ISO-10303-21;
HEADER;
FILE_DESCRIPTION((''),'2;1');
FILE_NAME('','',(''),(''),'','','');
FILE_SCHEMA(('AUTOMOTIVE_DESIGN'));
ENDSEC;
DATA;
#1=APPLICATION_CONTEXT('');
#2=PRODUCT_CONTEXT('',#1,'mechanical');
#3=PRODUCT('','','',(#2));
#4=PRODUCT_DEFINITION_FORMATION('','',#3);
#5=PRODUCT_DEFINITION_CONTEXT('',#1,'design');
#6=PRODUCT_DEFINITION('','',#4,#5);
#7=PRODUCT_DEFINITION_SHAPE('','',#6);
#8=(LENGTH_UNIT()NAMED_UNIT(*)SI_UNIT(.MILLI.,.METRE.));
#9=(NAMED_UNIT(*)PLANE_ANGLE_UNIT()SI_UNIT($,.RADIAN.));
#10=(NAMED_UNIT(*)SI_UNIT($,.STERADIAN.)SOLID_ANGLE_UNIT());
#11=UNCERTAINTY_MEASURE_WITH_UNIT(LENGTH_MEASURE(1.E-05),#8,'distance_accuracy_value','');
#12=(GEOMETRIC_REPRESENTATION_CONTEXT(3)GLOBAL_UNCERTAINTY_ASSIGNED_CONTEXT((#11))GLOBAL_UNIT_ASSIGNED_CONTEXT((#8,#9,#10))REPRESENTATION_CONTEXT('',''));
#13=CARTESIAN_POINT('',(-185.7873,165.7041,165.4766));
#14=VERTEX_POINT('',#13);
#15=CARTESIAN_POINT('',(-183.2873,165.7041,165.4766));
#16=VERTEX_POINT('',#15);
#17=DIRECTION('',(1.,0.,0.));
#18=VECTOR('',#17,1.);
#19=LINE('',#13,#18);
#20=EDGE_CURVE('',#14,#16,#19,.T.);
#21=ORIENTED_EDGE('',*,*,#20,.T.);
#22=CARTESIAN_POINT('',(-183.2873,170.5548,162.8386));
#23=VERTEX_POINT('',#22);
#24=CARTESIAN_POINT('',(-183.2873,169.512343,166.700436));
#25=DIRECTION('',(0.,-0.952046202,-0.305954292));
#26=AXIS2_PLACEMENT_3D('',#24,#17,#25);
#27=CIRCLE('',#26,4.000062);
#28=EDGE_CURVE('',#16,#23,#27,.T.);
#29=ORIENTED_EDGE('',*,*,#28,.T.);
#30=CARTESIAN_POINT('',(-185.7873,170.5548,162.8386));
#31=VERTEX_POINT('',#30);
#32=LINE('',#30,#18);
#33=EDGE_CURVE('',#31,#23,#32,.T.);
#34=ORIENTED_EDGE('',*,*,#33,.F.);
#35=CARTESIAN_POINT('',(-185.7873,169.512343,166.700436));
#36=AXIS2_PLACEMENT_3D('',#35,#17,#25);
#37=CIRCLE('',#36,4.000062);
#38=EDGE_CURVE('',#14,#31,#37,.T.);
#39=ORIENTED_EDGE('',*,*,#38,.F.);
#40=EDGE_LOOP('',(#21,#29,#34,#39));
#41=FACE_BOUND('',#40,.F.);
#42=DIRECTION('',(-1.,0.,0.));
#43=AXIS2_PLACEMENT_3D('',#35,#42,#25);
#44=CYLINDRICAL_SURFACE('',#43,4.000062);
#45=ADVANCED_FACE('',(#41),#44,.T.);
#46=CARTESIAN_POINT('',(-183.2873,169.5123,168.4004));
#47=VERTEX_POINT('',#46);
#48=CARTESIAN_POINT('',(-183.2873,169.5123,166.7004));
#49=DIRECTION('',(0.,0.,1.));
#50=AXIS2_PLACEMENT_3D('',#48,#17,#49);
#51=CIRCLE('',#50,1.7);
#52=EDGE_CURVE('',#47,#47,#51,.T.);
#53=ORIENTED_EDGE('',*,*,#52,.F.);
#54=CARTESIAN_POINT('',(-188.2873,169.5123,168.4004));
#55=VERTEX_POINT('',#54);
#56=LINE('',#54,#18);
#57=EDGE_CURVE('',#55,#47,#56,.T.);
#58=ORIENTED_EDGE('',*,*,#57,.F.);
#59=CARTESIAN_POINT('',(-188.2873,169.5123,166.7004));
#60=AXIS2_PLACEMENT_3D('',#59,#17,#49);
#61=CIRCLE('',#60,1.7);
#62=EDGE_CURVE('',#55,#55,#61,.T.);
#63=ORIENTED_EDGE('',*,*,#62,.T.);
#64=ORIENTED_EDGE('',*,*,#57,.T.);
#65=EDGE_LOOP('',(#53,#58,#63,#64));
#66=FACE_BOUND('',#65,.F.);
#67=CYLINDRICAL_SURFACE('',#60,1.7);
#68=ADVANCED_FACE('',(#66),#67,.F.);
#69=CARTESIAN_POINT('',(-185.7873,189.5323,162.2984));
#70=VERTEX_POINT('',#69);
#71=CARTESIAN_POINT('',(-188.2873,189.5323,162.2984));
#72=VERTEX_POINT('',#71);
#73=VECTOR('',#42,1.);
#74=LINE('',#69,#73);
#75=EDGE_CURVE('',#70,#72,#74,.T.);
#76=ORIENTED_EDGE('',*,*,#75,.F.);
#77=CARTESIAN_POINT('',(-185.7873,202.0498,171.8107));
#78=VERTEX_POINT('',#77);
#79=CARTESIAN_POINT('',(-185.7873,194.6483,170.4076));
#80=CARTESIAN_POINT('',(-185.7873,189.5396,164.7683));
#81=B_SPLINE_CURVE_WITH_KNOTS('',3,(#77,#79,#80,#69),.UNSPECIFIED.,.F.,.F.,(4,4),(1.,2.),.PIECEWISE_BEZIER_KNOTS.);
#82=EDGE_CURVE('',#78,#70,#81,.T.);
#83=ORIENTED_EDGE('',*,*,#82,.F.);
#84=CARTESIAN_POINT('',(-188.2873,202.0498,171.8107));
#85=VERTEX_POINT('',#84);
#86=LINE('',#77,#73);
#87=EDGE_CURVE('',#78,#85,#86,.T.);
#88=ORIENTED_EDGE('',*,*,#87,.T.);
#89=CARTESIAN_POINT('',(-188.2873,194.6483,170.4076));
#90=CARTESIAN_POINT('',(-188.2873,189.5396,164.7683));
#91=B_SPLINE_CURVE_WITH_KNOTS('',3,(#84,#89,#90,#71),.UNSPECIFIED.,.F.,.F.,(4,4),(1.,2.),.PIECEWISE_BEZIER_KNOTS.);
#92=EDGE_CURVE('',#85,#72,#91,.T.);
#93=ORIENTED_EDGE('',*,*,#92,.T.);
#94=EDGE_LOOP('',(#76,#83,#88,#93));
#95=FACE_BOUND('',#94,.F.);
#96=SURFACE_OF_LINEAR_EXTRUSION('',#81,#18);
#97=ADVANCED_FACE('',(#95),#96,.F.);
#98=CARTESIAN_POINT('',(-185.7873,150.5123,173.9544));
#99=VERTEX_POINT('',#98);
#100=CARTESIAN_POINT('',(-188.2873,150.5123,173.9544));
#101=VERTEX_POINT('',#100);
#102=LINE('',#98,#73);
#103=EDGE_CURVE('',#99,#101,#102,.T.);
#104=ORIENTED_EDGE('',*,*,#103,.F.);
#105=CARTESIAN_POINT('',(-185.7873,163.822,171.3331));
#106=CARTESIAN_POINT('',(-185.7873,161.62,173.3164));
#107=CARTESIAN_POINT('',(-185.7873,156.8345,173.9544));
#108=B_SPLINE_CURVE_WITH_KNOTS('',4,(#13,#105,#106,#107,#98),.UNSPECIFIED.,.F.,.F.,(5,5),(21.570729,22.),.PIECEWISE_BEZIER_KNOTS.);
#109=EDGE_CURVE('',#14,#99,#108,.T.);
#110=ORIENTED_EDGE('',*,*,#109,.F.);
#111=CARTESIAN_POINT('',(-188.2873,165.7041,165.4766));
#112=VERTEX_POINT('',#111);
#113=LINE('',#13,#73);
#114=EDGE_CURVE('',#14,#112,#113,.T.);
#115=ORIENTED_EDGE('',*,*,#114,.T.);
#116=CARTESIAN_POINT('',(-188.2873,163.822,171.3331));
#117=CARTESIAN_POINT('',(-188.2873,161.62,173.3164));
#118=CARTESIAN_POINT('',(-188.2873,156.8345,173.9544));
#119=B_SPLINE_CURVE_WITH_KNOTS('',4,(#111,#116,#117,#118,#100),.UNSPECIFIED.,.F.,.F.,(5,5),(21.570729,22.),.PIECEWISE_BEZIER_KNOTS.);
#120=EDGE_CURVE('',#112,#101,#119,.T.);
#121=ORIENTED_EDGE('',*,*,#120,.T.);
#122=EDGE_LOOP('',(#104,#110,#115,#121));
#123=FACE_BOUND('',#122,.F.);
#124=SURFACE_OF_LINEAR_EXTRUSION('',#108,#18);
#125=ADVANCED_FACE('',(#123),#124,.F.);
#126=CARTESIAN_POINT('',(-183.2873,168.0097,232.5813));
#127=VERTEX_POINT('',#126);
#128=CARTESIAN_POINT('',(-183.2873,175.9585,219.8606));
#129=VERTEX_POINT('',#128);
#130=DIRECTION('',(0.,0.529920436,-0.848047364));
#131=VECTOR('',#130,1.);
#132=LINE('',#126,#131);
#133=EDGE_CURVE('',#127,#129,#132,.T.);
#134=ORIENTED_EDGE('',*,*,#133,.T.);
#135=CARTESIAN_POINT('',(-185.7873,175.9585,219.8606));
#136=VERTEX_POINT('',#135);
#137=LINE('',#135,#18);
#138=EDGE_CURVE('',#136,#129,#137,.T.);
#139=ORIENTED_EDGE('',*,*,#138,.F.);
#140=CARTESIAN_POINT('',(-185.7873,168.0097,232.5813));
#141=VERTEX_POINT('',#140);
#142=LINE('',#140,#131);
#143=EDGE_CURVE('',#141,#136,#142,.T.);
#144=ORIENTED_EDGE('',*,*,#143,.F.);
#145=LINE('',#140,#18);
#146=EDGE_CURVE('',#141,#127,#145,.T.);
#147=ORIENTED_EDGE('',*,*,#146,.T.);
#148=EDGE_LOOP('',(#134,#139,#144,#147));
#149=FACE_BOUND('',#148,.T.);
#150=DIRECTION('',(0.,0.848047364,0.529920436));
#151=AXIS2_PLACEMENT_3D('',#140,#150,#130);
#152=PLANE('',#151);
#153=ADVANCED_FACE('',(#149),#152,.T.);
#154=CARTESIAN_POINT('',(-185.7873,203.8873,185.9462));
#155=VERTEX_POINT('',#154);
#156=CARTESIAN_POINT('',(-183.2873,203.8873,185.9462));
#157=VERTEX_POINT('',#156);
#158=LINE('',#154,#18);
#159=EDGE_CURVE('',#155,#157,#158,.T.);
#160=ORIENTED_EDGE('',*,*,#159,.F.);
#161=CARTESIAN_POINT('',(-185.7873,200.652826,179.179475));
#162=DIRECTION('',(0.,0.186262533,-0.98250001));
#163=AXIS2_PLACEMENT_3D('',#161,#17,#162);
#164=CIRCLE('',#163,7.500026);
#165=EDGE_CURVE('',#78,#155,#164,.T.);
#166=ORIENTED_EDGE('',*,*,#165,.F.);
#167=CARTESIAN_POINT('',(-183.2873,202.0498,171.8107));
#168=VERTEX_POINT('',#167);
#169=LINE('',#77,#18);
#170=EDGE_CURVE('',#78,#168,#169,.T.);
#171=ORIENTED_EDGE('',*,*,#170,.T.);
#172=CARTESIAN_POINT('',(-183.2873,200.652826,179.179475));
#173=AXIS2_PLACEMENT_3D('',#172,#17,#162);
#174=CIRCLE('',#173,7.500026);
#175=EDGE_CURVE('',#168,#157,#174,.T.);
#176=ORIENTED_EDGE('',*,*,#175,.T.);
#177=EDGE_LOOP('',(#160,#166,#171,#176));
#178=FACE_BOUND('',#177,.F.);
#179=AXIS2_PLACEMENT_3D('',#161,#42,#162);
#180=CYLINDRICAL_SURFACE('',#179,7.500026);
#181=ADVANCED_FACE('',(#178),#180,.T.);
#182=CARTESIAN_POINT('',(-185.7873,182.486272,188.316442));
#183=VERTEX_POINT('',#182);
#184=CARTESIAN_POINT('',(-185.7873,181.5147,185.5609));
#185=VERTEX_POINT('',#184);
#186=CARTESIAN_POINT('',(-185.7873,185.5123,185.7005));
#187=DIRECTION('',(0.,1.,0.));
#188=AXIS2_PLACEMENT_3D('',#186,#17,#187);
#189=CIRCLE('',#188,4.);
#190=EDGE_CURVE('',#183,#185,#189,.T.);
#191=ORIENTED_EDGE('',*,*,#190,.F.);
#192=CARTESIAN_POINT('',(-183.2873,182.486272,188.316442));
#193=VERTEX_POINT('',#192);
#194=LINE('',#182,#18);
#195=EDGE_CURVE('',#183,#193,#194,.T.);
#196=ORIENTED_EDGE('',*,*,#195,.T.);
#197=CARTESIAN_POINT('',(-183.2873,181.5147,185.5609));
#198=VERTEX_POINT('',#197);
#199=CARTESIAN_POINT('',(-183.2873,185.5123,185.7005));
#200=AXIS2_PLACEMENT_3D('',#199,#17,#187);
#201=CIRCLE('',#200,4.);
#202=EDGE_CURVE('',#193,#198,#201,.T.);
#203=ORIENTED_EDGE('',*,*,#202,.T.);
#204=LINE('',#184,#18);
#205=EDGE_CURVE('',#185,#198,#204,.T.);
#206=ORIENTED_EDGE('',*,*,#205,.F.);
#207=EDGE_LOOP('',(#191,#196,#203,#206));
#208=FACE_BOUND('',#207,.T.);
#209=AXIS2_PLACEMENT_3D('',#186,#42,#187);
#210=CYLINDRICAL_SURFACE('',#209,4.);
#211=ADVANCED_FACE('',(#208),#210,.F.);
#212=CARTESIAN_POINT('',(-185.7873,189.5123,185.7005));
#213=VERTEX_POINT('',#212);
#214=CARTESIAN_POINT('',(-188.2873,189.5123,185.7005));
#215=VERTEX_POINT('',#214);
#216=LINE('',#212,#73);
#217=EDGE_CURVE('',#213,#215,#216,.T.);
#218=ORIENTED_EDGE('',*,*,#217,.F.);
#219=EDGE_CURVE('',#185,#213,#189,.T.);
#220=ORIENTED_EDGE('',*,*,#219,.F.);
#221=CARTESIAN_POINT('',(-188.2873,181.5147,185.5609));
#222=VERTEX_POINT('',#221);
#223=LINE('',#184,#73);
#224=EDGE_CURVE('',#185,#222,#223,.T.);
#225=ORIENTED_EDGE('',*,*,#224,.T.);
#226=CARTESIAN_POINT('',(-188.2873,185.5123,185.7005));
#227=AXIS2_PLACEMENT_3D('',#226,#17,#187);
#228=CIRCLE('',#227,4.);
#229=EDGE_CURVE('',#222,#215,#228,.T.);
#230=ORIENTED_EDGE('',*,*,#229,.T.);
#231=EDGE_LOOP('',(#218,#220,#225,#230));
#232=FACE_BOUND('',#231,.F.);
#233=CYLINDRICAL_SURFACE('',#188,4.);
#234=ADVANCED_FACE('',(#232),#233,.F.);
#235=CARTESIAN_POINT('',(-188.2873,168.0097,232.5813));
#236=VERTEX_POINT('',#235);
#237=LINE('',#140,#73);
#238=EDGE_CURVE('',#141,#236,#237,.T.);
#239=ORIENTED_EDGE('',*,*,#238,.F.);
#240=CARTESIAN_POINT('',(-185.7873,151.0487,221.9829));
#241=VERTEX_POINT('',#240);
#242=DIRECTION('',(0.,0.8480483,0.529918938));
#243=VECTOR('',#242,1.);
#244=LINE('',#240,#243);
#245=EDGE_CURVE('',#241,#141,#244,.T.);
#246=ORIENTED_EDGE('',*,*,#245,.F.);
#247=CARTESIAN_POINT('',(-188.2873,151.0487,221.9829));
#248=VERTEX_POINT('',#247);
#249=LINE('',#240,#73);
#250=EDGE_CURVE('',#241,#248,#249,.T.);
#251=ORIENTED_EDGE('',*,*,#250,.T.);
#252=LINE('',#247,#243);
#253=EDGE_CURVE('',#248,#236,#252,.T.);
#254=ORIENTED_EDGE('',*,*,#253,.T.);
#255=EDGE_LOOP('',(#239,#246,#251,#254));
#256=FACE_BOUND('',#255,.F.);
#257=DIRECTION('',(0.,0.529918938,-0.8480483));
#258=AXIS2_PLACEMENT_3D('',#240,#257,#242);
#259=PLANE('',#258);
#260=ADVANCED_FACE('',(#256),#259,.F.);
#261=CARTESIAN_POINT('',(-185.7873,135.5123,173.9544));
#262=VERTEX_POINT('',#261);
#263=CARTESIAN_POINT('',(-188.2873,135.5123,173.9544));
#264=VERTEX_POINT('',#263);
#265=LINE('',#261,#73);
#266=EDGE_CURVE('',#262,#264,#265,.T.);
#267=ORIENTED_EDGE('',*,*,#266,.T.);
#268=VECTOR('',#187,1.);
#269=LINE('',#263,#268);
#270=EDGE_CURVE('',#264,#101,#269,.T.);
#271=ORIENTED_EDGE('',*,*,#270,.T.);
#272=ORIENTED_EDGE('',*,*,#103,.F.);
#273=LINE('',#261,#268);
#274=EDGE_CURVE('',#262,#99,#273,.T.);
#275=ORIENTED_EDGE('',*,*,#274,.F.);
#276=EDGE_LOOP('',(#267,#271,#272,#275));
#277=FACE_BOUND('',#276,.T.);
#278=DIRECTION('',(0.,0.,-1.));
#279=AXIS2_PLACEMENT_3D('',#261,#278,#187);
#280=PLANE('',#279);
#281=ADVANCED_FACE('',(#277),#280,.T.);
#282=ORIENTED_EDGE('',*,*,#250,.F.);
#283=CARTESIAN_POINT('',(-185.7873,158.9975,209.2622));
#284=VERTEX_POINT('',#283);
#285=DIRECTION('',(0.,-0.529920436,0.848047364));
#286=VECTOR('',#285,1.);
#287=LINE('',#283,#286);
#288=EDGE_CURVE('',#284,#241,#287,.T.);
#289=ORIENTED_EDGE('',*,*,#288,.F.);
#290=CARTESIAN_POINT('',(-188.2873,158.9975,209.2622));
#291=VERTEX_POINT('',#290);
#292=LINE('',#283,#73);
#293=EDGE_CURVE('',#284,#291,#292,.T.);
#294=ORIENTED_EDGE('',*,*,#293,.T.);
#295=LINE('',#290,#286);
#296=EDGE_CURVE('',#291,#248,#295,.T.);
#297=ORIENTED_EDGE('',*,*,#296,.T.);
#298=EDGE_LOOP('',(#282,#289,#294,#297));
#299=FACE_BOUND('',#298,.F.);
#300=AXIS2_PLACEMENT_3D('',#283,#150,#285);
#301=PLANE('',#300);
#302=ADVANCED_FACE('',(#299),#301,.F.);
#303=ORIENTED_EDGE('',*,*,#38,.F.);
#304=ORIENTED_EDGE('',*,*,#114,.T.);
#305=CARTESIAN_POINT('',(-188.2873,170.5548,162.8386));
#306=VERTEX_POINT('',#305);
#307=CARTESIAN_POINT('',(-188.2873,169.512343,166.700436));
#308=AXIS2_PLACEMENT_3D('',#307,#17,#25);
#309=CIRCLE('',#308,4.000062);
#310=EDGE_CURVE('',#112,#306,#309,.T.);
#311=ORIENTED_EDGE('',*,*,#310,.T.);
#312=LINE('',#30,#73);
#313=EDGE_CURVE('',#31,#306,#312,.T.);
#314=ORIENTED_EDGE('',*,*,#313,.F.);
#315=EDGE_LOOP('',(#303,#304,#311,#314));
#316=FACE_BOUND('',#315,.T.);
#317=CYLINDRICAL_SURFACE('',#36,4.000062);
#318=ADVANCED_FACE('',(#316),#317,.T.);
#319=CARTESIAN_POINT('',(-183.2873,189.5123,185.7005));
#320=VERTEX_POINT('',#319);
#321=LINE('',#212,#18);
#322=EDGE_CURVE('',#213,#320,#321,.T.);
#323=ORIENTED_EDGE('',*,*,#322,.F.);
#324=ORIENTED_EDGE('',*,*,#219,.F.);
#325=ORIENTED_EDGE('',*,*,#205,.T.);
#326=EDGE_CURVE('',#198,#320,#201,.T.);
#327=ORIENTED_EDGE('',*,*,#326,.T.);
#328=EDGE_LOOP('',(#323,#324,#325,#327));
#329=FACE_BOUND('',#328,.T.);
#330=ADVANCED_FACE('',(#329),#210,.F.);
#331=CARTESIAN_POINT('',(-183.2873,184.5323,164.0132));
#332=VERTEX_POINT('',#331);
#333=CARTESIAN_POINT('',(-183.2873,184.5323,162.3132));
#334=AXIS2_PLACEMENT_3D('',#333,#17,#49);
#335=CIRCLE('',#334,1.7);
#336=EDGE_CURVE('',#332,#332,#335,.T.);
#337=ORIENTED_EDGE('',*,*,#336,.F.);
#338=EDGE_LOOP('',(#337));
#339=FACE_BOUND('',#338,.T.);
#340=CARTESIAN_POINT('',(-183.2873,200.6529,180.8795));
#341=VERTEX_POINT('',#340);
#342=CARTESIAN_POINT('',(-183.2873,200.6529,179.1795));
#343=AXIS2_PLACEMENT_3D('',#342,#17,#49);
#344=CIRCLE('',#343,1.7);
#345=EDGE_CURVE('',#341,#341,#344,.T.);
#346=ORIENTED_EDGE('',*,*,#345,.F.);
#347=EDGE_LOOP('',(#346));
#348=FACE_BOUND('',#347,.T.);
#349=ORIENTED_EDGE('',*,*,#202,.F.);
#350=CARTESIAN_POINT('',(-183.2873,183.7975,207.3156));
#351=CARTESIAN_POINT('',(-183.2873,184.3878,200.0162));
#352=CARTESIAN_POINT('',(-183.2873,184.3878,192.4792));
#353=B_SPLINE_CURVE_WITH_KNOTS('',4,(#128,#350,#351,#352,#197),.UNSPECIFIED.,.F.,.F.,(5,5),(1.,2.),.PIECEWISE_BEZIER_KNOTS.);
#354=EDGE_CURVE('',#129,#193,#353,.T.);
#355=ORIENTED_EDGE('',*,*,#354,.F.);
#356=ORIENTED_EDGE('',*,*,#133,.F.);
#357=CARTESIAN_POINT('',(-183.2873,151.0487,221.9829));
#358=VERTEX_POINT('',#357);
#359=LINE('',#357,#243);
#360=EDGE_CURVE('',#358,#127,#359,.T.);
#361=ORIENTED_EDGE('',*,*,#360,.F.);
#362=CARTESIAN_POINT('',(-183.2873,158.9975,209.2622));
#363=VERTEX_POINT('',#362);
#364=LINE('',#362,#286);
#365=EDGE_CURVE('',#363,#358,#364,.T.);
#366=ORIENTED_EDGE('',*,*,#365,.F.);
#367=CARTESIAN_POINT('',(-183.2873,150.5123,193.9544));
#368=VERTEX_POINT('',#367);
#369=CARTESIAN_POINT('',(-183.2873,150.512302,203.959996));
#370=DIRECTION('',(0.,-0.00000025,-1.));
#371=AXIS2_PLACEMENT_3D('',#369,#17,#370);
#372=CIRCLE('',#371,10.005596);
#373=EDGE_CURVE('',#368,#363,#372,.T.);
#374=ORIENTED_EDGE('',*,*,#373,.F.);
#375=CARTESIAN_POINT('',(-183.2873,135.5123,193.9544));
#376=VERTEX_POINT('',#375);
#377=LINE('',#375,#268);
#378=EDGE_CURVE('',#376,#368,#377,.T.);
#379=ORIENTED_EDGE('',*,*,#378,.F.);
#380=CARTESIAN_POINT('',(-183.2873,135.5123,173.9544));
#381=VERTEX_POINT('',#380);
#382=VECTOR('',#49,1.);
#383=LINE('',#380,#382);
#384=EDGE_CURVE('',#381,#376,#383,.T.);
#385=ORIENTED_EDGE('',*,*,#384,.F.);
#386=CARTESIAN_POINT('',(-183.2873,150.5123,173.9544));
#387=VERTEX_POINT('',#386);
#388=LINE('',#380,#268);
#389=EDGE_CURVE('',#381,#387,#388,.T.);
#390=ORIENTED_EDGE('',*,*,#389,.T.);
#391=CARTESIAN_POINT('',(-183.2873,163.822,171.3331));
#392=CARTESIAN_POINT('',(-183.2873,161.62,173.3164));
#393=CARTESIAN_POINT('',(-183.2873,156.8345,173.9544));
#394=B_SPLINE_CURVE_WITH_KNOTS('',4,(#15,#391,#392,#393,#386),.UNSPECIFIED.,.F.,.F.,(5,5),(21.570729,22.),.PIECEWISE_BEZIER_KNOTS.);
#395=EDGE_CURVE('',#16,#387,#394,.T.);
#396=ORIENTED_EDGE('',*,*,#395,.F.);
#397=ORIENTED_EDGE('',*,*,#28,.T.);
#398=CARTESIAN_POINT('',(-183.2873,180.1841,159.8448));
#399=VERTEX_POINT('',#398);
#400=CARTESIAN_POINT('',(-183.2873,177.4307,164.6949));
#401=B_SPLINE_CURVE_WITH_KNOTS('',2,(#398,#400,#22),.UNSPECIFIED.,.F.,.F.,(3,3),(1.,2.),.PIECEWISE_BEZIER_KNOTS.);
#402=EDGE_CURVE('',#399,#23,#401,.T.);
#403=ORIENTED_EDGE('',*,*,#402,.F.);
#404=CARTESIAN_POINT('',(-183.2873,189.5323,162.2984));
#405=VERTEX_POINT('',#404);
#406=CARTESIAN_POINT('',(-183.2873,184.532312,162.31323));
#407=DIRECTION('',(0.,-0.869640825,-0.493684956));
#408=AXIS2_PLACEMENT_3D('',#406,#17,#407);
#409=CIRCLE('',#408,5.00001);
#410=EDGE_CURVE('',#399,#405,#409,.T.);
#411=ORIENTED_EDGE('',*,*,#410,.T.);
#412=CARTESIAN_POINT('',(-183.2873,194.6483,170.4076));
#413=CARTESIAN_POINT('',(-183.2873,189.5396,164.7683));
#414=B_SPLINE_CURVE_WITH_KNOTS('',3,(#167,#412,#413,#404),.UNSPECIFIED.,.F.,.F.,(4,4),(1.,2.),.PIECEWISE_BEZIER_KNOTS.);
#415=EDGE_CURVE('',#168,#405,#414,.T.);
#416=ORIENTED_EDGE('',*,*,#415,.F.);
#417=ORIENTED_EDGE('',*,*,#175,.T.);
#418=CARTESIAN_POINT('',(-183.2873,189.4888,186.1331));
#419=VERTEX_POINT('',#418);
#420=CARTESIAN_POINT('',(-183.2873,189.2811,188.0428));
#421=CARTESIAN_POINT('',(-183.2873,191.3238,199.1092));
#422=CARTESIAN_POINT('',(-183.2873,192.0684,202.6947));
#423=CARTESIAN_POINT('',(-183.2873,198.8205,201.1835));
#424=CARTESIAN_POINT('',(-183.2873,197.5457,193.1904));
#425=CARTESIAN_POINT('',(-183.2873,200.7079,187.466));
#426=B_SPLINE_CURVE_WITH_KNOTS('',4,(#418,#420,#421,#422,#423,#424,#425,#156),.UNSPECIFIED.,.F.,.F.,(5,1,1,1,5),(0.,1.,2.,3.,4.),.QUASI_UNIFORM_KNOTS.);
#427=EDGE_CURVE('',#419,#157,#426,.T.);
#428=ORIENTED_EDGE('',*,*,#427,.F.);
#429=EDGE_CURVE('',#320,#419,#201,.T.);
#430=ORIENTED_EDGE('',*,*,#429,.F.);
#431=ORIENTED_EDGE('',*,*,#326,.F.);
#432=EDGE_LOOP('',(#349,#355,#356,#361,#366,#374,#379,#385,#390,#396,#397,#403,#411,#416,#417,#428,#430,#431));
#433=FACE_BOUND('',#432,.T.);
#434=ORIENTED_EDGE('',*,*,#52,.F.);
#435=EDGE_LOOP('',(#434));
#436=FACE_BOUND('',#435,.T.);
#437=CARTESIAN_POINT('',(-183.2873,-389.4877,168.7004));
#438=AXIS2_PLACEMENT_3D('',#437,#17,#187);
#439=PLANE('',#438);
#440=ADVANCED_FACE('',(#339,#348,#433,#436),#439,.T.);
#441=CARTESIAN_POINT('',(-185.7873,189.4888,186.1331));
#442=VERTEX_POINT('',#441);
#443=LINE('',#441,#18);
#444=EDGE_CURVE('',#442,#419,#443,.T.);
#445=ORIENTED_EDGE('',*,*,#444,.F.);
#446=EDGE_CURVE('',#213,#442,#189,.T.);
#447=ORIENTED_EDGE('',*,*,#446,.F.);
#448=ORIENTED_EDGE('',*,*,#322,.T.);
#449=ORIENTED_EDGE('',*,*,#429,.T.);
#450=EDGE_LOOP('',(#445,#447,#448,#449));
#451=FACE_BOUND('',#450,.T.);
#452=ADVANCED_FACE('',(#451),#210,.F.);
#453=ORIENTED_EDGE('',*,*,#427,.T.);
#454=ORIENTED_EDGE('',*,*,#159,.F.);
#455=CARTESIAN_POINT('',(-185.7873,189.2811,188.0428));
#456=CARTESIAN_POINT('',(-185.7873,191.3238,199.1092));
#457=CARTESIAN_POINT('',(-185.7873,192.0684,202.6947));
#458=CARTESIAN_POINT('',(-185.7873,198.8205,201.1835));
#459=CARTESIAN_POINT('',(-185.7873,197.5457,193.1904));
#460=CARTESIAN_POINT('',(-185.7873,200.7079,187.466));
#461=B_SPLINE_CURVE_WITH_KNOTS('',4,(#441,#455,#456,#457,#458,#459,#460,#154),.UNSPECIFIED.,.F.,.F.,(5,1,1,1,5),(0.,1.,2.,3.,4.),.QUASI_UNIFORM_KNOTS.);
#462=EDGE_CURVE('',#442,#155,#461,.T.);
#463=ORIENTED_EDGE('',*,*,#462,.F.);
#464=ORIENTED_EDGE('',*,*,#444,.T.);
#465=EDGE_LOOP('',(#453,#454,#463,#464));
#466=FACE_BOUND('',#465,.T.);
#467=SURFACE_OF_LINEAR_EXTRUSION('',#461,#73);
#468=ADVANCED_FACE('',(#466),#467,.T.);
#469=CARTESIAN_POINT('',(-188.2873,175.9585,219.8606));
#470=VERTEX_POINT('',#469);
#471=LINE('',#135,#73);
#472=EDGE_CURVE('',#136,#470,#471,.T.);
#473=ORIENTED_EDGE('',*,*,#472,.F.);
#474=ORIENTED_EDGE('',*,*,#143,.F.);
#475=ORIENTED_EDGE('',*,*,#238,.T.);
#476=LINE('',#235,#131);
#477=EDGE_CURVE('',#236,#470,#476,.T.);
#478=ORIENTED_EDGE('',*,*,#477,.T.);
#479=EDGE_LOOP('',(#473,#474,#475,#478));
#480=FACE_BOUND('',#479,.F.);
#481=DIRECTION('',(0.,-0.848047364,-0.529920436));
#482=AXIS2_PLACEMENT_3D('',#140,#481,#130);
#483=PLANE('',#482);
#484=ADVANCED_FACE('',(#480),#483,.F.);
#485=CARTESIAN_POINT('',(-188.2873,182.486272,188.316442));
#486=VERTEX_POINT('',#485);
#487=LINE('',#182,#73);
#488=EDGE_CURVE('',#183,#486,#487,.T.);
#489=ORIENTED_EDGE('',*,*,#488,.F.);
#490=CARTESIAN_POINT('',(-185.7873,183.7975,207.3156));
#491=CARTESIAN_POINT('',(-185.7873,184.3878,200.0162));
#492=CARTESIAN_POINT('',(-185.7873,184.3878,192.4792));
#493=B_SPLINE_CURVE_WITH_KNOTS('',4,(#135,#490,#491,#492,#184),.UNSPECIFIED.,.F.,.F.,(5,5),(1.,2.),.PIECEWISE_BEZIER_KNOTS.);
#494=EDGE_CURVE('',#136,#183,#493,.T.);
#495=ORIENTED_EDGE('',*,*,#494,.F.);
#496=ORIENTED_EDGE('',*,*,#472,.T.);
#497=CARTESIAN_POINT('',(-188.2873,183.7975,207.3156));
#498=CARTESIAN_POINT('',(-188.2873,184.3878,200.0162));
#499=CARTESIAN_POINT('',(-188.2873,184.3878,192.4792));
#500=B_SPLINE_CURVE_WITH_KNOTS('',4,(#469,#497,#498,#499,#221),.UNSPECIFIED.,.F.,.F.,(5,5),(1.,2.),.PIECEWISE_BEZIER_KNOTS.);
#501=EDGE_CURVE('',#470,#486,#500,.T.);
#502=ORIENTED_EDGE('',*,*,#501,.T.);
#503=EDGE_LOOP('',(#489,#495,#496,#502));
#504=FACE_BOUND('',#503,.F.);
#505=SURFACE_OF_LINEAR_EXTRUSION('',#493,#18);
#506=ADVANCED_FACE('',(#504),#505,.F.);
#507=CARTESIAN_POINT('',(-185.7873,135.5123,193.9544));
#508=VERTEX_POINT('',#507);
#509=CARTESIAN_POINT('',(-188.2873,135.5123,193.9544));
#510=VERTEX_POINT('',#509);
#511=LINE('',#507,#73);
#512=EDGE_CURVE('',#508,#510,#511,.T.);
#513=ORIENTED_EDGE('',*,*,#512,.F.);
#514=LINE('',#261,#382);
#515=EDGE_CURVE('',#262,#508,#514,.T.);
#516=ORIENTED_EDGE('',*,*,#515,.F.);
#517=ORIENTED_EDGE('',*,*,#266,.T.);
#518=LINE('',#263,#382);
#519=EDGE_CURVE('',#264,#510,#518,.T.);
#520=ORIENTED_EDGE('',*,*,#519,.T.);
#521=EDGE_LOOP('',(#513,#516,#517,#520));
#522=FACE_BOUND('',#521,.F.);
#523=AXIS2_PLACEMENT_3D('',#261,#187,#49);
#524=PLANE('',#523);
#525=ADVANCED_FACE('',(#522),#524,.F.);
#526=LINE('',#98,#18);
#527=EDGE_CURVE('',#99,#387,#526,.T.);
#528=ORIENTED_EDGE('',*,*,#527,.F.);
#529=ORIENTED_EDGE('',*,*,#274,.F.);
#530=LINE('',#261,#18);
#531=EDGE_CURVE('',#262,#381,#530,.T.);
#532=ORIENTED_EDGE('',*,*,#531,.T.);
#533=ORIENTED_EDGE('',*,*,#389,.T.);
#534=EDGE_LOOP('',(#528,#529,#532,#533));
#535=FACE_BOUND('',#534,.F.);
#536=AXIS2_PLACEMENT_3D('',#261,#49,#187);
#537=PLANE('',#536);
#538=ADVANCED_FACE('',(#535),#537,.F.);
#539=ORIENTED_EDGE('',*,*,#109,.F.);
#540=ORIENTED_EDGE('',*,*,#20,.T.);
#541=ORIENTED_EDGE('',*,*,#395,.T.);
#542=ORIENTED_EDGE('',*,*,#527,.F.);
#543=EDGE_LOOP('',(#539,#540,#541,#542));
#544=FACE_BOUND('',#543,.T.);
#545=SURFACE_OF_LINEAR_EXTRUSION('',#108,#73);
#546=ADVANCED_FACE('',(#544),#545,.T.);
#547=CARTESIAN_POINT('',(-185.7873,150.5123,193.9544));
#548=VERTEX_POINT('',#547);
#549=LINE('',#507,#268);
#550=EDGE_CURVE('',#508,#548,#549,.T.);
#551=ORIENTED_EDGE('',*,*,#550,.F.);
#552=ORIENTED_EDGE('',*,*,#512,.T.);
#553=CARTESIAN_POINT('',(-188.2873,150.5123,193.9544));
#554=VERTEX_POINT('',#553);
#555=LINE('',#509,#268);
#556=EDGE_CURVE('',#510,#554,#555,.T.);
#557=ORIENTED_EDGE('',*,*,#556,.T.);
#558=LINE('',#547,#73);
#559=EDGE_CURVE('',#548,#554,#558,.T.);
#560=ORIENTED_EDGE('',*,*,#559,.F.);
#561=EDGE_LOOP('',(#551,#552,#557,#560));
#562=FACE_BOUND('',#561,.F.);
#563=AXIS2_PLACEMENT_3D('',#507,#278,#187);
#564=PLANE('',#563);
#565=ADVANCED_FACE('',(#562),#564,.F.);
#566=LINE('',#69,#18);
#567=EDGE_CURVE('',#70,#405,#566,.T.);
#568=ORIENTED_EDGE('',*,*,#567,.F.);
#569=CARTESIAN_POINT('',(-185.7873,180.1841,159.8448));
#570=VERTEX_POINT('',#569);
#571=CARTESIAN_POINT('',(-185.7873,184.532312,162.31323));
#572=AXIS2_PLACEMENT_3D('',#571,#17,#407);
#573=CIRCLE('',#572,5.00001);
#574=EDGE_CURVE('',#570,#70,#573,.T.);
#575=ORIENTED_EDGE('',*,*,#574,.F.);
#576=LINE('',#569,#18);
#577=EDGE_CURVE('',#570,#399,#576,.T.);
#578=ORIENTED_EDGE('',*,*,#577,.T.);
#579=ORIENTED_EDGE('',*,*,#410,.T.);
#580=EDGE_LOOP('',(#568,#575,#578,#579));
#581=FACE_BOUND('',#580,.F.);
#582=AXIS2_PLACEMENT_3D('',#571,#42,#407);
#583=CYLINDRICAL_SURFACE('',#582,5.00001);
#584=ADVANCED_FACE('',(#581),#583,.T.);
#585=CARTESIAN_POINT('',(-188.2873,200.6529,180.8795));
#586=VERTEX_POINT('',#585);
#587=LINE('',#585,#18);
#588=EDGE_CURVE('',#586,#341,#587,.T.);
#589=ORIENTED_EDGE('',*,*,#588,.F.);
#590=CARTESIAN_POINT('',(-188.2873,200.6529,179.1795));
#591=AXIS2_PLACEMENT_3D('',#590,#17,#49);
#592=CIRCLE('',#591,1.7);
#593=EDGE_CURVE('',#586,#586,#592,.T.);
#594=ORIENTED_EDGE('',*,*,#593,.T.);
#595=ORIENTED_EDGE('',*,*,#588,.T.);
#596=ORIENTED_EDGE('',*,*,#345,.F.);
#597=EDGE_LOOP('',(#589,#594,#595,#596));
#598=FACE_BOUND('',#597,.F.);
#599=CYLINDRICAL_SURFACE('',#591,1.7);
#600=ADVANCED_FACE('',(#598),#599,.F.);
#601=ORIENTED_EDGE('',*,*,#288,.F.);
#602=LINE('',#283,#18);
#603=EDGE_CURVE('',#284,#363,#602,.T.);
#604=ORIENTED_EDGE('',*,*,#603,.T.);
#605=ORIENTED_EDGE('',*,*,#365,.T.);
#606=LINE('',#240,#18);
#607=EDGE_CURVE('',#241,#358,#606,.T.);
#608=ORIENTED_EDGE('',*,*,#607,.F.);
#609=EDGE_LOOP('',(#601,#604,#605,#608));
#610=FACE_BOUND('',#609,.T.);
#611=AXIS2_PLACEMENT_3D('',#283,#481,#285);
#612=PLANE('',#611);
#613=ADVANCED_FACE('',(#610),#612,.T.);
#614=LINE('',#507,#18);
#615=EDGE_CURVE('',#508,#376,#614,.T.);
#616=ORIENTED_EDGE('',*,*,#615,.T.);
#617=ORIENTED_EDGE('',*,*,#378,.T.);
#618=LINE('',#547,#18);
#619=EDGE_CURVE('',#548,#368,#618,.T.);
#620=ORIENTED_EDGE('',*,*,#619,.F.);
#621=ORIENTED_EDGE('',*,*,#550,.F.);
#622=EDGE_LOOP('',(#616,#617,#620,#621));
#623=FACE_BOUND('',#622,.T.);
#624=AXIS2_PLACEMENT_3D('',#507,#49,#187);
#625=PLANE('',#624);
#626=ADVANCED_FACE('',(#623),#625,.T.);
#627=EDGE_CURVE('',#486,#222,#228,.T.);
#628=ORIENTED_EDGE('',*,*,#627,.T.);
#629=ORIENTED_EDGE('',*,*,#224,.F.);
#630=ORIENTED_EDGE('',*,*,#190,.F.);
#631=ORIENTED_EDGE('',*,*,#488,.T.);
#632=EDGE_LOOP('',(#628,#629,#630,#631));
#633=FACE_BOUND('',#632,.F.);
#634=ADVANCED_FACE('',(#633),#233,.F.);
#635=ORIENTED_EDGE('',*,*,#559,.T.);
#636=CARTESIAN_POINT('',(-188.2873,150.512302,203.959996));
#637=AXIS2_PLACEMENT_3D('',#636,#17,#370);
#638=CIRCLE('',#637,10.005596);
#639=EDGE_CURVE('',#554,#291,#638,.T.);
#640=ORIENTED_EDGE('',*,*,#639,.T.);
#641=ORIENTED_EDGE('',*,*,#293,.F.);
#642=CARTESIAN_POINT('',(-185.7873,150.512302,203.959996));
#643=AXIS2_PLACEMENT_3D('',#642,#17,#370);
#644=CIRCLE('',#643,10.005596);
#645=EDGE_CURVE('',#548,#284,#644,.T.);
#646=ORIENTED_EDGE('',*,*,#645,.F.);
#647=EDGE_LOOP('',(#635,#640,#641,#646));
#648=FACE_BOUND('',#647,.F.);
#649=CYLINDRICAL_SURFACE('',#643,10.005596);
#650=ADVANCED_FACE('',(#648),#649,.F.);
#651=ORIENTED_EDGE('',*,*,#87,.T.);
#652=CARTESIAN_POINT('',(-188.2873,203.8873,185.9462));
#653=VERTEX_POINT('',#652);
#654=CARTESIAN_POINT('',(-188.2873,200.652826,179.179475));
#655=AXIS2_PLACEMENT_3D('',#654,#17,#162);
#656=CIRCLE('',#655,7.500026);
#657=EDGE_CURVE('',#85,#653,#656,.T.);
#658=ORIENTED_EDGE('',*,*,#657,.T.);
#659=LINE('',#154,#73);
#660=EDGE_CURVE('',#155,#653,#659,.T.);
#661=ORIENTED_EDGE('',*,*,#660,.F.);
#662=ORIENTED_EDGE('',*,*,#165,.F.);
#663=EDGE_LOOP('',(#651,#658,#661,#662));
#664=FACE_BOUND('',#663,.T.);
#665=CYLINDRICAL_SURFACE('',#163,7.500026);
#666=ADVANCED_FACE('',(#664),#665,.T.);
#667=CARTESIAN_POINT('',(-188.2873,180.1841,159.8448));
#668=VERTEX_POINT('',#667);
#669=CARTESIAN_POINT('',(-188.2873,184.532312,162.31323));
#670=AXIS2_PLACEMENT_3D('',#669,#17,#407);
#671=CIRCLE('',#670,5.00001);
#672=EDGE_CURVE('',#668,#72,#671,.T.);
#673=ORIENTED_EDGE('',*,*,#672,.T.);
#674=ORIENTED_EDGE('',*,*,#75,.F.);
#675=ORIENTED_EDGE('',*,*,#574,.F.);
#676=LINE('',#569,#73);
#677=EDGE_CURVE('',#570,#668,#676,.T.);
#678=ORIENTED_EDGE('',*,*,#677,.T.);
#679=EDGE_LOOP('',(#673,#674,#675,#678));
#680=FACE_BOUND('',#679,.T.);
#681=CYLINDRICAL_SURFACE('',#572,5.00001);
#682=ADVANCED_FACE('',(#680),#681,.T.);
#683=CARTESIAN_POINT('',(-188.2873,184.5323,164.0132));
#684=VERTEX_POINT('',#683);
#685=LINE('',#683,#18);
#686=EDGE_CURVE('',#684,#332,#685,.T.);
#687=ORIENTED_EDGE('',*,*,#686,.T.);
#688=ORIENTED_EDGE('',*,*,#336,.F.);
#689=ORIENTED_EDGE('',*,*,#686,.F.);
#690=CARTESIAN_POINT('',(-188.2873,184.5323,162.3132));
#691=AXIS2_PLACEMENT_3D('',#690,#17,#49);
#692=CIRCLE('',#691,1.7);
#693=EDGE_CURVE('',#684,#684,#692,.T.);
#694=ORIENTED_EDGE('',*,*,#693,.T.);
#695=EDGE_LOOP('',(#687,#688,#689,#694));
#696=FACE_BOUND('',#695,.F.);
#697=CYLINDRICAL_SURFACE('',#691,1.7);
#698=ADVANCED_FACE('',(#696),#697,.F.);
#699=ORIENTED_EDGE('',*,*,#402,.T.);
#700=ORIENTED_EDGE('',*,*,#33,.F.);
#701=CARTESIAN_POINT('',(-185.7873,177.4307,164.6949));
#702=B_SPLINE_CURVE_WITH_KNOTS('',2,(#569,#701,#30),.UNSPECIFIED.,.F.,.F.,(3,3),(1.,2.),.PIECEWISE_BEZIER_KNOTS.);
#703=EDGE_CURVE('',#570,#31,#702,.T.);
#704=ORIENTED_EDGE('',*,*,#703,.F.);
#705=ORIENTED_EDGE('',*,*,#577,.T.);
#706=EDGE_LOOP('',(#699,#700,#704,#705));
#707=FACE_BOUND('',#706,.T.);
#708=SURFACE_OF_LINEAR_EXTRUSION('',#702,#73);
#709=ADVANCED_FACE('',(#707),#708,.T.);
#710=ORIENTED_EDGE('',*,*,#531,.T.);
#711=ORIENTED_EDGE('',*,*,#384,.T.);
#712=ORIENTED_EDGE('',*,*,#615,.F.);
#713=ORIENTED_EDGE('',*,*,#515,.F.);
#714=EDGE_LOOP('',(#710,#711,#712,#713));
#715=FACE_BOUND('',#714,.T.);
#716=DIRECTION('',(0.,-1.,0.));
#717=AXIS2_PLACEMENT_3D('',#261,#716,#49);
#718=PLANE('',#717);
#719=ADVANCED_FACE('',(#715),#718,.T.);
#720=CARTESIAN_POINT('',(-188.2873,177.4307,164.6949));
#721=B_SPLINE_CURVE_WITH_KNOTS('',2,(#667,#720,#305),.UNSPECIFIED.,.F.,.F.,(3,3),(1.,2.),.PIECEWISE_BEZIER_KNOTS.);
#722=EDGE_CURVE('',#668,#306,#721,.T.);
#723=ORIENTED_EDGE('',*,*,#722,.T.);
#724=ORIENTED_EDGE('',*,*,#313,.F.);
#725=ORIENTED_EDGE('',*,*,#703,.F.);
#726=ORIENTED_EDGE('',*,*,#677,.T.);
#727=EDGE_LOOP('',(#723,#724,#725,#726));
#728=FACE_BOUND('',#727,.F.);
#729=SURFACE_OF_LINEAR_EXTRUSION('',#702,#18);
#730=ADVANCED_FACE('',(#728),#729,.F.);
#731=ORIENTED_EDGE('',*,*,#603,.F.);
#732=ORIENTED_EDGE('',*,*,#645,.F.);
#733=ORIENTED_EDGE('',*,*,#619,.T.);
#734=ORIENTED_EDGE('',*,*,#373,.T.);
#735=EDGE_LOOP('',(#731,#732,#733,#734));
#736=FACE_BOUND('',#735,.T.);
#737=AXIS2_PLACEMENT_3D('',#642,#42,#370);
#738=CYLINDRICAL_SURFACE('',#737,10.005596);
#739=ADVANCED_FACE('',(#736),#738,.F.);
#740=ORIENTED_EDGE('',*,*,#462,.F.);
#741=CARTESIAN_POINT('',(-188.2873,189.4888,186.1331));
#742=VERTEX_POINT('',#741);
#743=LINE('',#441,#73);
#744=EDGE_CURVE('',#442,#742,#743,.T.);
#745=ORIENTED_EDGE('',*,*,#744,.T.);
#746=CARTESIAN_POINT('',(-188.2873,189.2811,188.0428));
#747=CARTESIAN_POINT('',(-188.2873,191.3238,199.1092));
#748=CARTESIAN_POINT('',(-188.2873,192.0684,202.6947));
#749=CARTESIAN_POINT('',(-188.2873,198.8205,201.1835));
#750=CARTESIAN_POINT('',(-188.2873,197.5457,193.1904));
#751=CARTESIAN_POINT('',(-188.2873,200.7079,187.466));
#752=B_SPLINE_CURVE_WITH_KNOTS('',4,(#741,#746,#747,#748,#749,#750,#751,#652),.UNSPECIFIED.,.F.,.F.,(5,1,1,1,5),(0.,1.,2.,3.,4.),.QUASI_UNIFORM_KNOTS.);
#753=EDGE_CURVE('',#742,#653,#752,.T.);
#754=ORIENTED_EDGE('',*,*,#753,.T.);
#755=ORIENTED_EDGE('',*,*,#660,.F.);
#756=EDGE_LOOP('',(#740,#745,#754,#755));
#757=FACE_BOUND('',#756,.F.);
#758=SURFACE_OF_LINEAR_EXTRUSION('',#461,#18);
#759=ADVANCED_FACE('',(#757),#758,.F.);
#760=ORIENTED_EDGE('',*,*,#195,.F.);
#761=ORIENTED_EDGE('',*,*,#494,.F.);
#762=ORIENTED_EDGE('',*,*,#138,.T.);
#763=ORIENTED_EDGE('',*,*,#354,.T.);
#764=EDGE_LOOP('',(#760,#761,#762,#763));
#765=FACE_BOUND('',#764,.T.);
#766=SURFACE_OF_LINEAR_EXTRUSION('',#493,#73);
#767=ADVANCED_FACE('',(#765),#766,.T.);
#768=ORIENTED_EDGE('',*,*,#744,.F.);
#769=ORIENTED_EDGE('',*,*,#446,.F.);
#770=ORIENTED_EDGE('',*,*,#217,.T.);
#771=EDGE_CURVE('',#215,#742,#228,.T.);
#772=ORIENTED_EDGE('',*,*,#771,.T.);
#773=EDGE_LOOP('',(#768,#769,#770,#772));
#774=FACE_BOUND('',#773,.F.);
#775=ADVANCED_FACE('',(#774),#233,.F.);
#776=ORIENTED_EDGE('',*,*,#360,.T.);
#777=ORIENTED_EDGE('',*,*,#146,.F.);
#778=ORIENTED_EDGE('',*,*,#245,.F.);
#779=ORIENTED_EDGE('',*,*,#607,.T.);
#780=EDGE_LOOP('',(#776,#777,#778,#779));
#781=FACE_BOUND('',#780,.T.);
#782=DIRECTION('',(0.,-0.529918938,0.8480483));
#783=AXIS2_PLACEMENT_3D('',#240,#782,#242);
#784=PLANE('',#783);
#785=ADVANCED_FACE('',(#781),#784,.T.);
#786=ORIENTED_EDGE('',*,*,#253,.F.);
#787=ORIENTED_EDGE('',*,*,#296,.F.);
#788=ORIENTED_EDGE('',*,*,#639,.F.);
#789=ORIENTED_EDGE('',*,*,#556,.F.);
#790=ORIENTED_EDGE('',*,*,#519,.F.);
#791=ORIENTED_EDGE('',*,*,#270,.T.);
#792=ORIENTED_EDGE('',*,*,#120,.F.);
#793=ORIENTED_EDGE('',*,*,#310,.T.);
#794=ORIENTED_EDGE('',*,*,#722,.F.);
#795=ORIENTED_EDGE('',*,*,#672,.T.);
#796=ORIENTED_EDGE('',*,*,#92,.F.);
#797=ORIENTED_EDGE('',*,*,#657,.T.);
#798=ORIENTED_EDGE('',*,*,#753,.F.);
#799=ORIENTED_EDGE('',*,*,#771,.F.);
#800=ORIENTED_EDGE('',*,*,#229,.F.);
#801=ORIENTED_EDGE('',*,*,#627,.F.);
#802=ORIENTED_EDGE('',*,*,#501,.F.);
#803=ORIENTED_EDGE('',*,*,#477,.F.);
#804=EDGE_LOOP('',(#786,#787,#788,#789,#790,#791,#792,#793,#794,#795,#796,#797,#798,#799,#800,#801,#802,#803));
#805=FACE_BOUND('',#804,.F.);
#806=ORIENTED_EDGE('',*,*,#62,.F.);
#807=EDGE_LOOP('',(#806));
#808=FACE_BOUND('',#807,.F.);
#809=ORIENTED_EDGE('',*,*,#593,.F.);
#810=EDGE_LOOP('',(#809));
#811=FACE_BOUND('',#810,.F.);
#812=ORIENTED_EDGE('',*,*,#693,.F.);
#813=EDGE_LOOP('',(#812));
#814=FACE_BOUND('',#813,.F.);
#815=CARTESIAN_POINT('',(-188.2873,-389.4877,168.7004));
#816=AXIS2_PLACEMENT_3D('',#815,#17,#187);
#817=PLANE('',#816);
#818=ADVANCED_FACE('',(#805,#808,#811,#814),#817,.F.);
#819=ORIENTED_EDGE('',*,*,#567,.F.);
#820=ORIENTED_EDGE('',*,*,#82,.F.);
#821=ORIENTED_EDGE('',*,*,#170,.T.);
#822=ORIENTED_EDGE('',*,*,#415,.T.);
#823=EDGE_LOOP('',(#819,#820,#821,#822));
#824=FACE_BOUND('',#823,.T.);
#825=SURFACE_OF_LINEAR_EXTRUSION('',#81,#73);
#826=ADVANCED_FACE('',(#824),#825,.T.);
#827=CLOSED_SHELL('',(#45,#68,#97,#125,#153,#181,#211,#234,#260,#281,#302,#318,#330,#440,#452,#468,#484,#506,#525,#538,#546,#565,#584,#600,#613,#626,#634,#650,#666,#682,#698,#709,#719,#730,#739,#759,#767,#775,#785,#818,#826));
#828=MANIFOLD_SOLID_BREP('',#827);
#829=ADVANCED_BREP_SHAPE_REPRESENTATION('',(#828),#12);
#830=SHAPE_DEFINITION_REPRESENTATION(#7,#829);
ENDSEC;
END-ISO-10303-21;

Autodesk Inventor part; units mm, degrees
ref_plane "YZ Plane" through (0, 0, 0) normal (1, 0, 0) x (0, 1, 0)
ref_plane "XZ Plane" through (0, 0, 0) normal (0, 1, 0) x (-1, 0, 0)
ref_plane "XY Plane" through (0, 0, 0) normal (0, 0, 1) x (1, 0, 0)
ref_plane "Plano de trabajo1" through (-185.7873, -389.4877, 168.7004) normal (1, 0, 0) x (0, 1, 0)
sketch "Boceto1" plane through (-185.7873, -389.4877, 168.7004) normal (1, 0, 0) x (0, 1, 0)
  spline S0 degree 3 poles (534.733, 23.2998) (534.7105, 23.7942) (534.6906, 24.2218) (534.6565, 24.9274) (534.6425, 25.2033) (534.6129, 25.7399) (534.6044, 25.8219) (534.6094, 25.4554) (534.6229, 25.0104) (534.6701, 23.6469) (534.7034, 22.7415) (534.7857, 20.5852) (534.8338, 19.3549) (534.9389, 16.7287) (534.9948, 15.3579) (535.1069, 12.6551) (535.1621, 11.3489) (535.2644, 8.9741) (535.3106, 7.9282) (535.3879, 6.2371) (535.4183, 5.608) (535.4589, 4.8538) (535.4688, 4.7358) (535.4667, 5.0314) (535.4548, 5.4422) (535.4103, 6.7433) (535.3782, 7.6213) (535.2979, 9.7332) (535.2505, 10.9469) (535.1465, 13.5533) (535.0909, 14.9211) (534.9787, 17.6317) (534.9233, 18.9486) (534.8197, 21.3576) (534.7727, 22.4265) (534.733, 23.2998) knots -6.594944 -6.594944 -6.594944 -6.594944 -6.363484 -6.363484 -6.132024 -6.132024 -5.723223 -5.723223 -5.314421 -5.314421 -4.90562 -4.90562 -4.496818 -4.496818 -4.088016 -4.088016 -3.679215 -3.679215 -3.270413 -3.270413 -2.861611 -2.861611 -2.45281 -2.45281 -2.044008 -2.044008 -1.635207 -1.635207 -1.226405 -1.226405 -0.817603 -0.817603 -0.408802 -0.408802 0 0 0 0 construction
  spline S1 degree 3 poles (563.9582, 57.2503) (564.369, 57.506) (564.6982, 57.7109) (565.1814, 58.0114) (565.334, 58.1062) (565.502, 58.21) (565.3211, 58.0968) (564.4035, 57.5239) (563.6756, 57.0698) (561.7633, 55.8774) (560.5973, 55.1504) (557.9767, 53.5169) (556.5472, 52.6259) (553.6106, 50.7959) (552.1317, 49.8744) (549.319, 48.122) (548.0121, 47.3078) (545.7443, 45.8954) (544.8051, 45.3106) (543.4219, 44.4496) (542.9911, 44.1816) (542.6995, 44.001) (542.8416, 44.0901) (543.6854, 44.617) (544.379, 45.0497) (546.2318, 46.2051) (547.3731, 46.9167) (549.9574, 48.5276) (551.3756, 49.4116) (554.3045, 51.2368) (555.7872, 52.1607) (558.622, 53.9269) (559.9471, 54.7524) (562.2635, 56.1952) (563.2327, 56.7987) (563.9582, 57.2503) knots -8.403752 -8.403752 -8.403752 -8.403752 -8.108809 -8.108809 -7.813866 -7.813866 -7.292942 -7.292942 -6.772017 -6.772017 -6.251093 -6.251093 -5.730168 -5.730168 -5.209244 -5.209244 -4.68832 -4.68832 -4.167395 -4.167395 -3.646471 -3.646471 -3.125546 -3.125546 -2.604622 -2.604622 -2.083698 -2.083698 -1.562773 -1.562773 -1.041849 -1.041849 -0.520924 -0.520924 0 0 0 0 construction
  spline S2 degree 3 poles (534.6356, 25.8056) (534.6632, 25.2036) (534.6939, 24.5175) (534.7607, 23.0024) (534.7966, 22.178) (534.9005, 19.7543) (534.9715, 18.0684) (535.1144, 14.6095) (535.185, 12.8696) (535.3167, 9.5648) (535.3764, 8.0315) (535.4771, 5.3755) (535.517, 4.2783) (535.5717, 2.669) (535.5858, 2.1723) (535.5862, 1.8506) (535.5724, 2.0287) (535.5185, 3.0427) (535.4789, 3.869) (535.3787, 6.0669) (535.3192, 7.4176) (535.1878, 10.4704) (535.1173, 12.1433) (534.9744, 15.5937) (534.9034, 17.3383) (534.7703, 20.6697) (534.7095, 22.2248) (534.6062, 24.9384) (534.5647, 26.071) (534.5067, 27.7605) (534.4907, 28.3011) (534.4865, 28.7134) (534.4984, 28.5811) (534.5489, 27.6545) (534.5869, 26.869) (534.6356, 25.8056) knots -8.403752 -8.403752 -8.403752 -8.403752 -8.108809 -8.108809 -7.813866 -7.813866 -7.292942 -7.292942 -6.772017 -6.772017 -6.251093 -6.251093 -5.730168 -5.730168 -5.209244 -5.209244 -4.68832 -4.68832 -4.167395 -4.167395 -3.646471 -3.646471 -3.125546 -3.125546 -2.604622 -2.604622 -2.083698 -2.083698 -1.562773 -1.562773 -1.041849 -1.041849 -0.520924 -0.520924 0 0 0 0 construction
  line L0 (525, 5.254) -> (525, 25.254)
  line L1 (525, 25.254) -> (540, 25.254)
  arc A0 (540, 25.254) -> (548.4852, 40.5618) centre (540, 35.2596) ccw
  line L2 (548.4852, 40.5618) -> (540.5364, 53.2825)
  line L3 (540.5364, 53.2825) -> (557.4974, 63.8809)
  line L4 (557.4974, 63.8809) -> (565.4462, 51.1602)
  line L5 (525, 15.254) -> (575, 17.0001) construction
  line L6 (549.0169, 58.5817) -> (575, 17.0001) construction
  line L7 (525, 5.254) -> (540, 5.254)
  circle A1 centre (575, 17.0001) radius 4 construction
  line L8 (565.4462, 51.1602) -> (573.2852, 38.6152) construction
  line L9 (573.8755, 23.7788) -> (571.0024, 16.8605) construction
  spline S3 degree 4 poles (565.4462, 51.1602) (573.2852, 38.6152) (573.8755, 31.3158) (573.8755, 23.7788) (571.0024, 16.8605) knots 1 1 1 1 1 2 2 2 2 2
  circle A2 centre (575, 17.0001) radius 4
  line L10 (578.9765, 17.4327) -> (578.7688, 19.3424) construction
  line L11 (578.7688, 19.3424) -> (580.8115, 30.4088) construction
  line L12 (580.8115, 30.4088) -> (581.5561, 33.9943) construction
  line L13 (581.5561, 33.9943) -> (588.3082, 32.4831) construction
  line L14 (588.3082, 32.4831) -> (587.0334, 24.49) construction
  line L15 (587.0334, 24.49) -> (590.1956, 18.7656) construction
  line L16 (546.3222, 5.254) -> (540, 5.254) construction
  line L17 (573.2852, 38.6152) -> (573.8755, 31.3158) construction
  line L18 (573.8755, 31.3158) -> (573.8755, 23.7788) construction
  arc A3 (591.5375, 3.1103) -> (593.375, 17.2458) centre (590.1405, 10.4791) ccw
  arc A4 (569.6718, -8.8556) -> (579.02, -6.402) centre (574.02, -6.3872) ccw
  arc A5 (555.1918, -3.2238) -> (560.0425, -5.8618) centre (559, -2) ccw
  spline S4 degree 4 poles (578.9765, 17.4327) (578.7688, 19.3424) (580.8115, 30.4088) (581.5561, 33.9943) (588.3082, 32.4831) (587.0334, 24.49) (590.1956, 18.7656) (593.375, 17.2458) knots 0 0 0 0 0 1 2 3 4 4 4 4 4
  line L19 (590.1956, 18.7656) -> (593.375, 17.2458) construction
  spline S5 degree 4 poles (555.1918, -3.2238) (553.3097, 2.6327) (551.1077, 4.616) (546.3222, 5.254) (540, 5.254) knots 21.570729 21.570729 21.570729 21.570729 21.570729 22 22 22 22 22
  line L20 (555.1918, -3.2238) -> (553.3097, 2.6327) construction
  line L21 (553.3097, 2.6327) -> (551.1077, 4.616) construction
  line L22 (551.1077, 4.616) -> (546.3222, 5.254) construction
  line L23 (569.6718, -8.8556) -> (566.9184, -4.0055) construction
  line L24 (566.9184, -4.0055) -> (560.0425, -5.8618) construction
  spline S6 degree 2 poles (569.6718, -8.8556) (566.9184, -4.0055) (560.0425, -5.8618) knots 1 1 1 2 2 2
  line L25 (575, 17.0001) -> (528.8996, 17.0001) construction
  line L26 (591.5375, 3.1103) -> (584.136, 1.7072) construction
  line L27 (584.136, 1.7072) -> (579.0273, -3.9321) construction
  line L28 (579.0273, -3.9321) -> (579.02, -6.402) construction
  spline S7 degree 3 poles (591.5375, 3.1103) (584.136, 1.7072) (579.0273, -3.9321) (579.02, -6.402) knots 1 1 1 1 2 2 2 2
  point P0 (389.4877, -168.7004)
  point P1 (534.733, 23.2998)
  point P2 (563.9582, 57.2503)
  point P3 (534.6356, 25.8056)
  point P4 (571.974, 19.6161)
  point P5 (578.9765, 17.4332)
  point P6 (571.0024, 16.8605)
  dimension "d78" = 8
  dimension "d75" = 20
  dimension "d76" = 60
  dimension "d77" = 15
  dimension "d232" = 15
  dimension "d233" = 10
  dimension "d234" = 8
  dimension "d290" = 2
  dimension "d291" = 50
extrude "Extrusión1" add sketch "Boceto1" along normal mid plane 5 contours L0 L1 A0 L2 L3 L4 S3 A2 S4 A3 S7 A4 S6 A5 S5 L7
sketch "Boceto2" plane through (-188.2873, -389.4877, 168.7004) normal (-1, 0, 0) x (0, 0, 1)
  arc A0 (-5.8618, 560.0425) -> (-3.2238, 555.1918) centre (-2, 559) ccw projected
  arc A1 (-6.402, 579.02) -> (-8.8556, 569.6718) centre (-6.3872, 574.02) ccw projected
  arc A2 (17.2458, 593.375) -> (3.1103, 591.5375) centre (10.4791, 590.1405) ccw projected
  point P0 (-168.7004, 389.4877)
hole "Agujero1" at (-188.2873, 169.5123, 166.7004) at (-188.2873, 184.5323, 162.3132) at (-188.2873, 200.6529, 179.1795) direction (1, 0, 0) diameter 3.4 end through all clearance for "Tornillo para maquinaria de cabeza plana" size "M3" standard "Perfil M métrico ANSI"
properties part number "soporte_eje_trasero"
